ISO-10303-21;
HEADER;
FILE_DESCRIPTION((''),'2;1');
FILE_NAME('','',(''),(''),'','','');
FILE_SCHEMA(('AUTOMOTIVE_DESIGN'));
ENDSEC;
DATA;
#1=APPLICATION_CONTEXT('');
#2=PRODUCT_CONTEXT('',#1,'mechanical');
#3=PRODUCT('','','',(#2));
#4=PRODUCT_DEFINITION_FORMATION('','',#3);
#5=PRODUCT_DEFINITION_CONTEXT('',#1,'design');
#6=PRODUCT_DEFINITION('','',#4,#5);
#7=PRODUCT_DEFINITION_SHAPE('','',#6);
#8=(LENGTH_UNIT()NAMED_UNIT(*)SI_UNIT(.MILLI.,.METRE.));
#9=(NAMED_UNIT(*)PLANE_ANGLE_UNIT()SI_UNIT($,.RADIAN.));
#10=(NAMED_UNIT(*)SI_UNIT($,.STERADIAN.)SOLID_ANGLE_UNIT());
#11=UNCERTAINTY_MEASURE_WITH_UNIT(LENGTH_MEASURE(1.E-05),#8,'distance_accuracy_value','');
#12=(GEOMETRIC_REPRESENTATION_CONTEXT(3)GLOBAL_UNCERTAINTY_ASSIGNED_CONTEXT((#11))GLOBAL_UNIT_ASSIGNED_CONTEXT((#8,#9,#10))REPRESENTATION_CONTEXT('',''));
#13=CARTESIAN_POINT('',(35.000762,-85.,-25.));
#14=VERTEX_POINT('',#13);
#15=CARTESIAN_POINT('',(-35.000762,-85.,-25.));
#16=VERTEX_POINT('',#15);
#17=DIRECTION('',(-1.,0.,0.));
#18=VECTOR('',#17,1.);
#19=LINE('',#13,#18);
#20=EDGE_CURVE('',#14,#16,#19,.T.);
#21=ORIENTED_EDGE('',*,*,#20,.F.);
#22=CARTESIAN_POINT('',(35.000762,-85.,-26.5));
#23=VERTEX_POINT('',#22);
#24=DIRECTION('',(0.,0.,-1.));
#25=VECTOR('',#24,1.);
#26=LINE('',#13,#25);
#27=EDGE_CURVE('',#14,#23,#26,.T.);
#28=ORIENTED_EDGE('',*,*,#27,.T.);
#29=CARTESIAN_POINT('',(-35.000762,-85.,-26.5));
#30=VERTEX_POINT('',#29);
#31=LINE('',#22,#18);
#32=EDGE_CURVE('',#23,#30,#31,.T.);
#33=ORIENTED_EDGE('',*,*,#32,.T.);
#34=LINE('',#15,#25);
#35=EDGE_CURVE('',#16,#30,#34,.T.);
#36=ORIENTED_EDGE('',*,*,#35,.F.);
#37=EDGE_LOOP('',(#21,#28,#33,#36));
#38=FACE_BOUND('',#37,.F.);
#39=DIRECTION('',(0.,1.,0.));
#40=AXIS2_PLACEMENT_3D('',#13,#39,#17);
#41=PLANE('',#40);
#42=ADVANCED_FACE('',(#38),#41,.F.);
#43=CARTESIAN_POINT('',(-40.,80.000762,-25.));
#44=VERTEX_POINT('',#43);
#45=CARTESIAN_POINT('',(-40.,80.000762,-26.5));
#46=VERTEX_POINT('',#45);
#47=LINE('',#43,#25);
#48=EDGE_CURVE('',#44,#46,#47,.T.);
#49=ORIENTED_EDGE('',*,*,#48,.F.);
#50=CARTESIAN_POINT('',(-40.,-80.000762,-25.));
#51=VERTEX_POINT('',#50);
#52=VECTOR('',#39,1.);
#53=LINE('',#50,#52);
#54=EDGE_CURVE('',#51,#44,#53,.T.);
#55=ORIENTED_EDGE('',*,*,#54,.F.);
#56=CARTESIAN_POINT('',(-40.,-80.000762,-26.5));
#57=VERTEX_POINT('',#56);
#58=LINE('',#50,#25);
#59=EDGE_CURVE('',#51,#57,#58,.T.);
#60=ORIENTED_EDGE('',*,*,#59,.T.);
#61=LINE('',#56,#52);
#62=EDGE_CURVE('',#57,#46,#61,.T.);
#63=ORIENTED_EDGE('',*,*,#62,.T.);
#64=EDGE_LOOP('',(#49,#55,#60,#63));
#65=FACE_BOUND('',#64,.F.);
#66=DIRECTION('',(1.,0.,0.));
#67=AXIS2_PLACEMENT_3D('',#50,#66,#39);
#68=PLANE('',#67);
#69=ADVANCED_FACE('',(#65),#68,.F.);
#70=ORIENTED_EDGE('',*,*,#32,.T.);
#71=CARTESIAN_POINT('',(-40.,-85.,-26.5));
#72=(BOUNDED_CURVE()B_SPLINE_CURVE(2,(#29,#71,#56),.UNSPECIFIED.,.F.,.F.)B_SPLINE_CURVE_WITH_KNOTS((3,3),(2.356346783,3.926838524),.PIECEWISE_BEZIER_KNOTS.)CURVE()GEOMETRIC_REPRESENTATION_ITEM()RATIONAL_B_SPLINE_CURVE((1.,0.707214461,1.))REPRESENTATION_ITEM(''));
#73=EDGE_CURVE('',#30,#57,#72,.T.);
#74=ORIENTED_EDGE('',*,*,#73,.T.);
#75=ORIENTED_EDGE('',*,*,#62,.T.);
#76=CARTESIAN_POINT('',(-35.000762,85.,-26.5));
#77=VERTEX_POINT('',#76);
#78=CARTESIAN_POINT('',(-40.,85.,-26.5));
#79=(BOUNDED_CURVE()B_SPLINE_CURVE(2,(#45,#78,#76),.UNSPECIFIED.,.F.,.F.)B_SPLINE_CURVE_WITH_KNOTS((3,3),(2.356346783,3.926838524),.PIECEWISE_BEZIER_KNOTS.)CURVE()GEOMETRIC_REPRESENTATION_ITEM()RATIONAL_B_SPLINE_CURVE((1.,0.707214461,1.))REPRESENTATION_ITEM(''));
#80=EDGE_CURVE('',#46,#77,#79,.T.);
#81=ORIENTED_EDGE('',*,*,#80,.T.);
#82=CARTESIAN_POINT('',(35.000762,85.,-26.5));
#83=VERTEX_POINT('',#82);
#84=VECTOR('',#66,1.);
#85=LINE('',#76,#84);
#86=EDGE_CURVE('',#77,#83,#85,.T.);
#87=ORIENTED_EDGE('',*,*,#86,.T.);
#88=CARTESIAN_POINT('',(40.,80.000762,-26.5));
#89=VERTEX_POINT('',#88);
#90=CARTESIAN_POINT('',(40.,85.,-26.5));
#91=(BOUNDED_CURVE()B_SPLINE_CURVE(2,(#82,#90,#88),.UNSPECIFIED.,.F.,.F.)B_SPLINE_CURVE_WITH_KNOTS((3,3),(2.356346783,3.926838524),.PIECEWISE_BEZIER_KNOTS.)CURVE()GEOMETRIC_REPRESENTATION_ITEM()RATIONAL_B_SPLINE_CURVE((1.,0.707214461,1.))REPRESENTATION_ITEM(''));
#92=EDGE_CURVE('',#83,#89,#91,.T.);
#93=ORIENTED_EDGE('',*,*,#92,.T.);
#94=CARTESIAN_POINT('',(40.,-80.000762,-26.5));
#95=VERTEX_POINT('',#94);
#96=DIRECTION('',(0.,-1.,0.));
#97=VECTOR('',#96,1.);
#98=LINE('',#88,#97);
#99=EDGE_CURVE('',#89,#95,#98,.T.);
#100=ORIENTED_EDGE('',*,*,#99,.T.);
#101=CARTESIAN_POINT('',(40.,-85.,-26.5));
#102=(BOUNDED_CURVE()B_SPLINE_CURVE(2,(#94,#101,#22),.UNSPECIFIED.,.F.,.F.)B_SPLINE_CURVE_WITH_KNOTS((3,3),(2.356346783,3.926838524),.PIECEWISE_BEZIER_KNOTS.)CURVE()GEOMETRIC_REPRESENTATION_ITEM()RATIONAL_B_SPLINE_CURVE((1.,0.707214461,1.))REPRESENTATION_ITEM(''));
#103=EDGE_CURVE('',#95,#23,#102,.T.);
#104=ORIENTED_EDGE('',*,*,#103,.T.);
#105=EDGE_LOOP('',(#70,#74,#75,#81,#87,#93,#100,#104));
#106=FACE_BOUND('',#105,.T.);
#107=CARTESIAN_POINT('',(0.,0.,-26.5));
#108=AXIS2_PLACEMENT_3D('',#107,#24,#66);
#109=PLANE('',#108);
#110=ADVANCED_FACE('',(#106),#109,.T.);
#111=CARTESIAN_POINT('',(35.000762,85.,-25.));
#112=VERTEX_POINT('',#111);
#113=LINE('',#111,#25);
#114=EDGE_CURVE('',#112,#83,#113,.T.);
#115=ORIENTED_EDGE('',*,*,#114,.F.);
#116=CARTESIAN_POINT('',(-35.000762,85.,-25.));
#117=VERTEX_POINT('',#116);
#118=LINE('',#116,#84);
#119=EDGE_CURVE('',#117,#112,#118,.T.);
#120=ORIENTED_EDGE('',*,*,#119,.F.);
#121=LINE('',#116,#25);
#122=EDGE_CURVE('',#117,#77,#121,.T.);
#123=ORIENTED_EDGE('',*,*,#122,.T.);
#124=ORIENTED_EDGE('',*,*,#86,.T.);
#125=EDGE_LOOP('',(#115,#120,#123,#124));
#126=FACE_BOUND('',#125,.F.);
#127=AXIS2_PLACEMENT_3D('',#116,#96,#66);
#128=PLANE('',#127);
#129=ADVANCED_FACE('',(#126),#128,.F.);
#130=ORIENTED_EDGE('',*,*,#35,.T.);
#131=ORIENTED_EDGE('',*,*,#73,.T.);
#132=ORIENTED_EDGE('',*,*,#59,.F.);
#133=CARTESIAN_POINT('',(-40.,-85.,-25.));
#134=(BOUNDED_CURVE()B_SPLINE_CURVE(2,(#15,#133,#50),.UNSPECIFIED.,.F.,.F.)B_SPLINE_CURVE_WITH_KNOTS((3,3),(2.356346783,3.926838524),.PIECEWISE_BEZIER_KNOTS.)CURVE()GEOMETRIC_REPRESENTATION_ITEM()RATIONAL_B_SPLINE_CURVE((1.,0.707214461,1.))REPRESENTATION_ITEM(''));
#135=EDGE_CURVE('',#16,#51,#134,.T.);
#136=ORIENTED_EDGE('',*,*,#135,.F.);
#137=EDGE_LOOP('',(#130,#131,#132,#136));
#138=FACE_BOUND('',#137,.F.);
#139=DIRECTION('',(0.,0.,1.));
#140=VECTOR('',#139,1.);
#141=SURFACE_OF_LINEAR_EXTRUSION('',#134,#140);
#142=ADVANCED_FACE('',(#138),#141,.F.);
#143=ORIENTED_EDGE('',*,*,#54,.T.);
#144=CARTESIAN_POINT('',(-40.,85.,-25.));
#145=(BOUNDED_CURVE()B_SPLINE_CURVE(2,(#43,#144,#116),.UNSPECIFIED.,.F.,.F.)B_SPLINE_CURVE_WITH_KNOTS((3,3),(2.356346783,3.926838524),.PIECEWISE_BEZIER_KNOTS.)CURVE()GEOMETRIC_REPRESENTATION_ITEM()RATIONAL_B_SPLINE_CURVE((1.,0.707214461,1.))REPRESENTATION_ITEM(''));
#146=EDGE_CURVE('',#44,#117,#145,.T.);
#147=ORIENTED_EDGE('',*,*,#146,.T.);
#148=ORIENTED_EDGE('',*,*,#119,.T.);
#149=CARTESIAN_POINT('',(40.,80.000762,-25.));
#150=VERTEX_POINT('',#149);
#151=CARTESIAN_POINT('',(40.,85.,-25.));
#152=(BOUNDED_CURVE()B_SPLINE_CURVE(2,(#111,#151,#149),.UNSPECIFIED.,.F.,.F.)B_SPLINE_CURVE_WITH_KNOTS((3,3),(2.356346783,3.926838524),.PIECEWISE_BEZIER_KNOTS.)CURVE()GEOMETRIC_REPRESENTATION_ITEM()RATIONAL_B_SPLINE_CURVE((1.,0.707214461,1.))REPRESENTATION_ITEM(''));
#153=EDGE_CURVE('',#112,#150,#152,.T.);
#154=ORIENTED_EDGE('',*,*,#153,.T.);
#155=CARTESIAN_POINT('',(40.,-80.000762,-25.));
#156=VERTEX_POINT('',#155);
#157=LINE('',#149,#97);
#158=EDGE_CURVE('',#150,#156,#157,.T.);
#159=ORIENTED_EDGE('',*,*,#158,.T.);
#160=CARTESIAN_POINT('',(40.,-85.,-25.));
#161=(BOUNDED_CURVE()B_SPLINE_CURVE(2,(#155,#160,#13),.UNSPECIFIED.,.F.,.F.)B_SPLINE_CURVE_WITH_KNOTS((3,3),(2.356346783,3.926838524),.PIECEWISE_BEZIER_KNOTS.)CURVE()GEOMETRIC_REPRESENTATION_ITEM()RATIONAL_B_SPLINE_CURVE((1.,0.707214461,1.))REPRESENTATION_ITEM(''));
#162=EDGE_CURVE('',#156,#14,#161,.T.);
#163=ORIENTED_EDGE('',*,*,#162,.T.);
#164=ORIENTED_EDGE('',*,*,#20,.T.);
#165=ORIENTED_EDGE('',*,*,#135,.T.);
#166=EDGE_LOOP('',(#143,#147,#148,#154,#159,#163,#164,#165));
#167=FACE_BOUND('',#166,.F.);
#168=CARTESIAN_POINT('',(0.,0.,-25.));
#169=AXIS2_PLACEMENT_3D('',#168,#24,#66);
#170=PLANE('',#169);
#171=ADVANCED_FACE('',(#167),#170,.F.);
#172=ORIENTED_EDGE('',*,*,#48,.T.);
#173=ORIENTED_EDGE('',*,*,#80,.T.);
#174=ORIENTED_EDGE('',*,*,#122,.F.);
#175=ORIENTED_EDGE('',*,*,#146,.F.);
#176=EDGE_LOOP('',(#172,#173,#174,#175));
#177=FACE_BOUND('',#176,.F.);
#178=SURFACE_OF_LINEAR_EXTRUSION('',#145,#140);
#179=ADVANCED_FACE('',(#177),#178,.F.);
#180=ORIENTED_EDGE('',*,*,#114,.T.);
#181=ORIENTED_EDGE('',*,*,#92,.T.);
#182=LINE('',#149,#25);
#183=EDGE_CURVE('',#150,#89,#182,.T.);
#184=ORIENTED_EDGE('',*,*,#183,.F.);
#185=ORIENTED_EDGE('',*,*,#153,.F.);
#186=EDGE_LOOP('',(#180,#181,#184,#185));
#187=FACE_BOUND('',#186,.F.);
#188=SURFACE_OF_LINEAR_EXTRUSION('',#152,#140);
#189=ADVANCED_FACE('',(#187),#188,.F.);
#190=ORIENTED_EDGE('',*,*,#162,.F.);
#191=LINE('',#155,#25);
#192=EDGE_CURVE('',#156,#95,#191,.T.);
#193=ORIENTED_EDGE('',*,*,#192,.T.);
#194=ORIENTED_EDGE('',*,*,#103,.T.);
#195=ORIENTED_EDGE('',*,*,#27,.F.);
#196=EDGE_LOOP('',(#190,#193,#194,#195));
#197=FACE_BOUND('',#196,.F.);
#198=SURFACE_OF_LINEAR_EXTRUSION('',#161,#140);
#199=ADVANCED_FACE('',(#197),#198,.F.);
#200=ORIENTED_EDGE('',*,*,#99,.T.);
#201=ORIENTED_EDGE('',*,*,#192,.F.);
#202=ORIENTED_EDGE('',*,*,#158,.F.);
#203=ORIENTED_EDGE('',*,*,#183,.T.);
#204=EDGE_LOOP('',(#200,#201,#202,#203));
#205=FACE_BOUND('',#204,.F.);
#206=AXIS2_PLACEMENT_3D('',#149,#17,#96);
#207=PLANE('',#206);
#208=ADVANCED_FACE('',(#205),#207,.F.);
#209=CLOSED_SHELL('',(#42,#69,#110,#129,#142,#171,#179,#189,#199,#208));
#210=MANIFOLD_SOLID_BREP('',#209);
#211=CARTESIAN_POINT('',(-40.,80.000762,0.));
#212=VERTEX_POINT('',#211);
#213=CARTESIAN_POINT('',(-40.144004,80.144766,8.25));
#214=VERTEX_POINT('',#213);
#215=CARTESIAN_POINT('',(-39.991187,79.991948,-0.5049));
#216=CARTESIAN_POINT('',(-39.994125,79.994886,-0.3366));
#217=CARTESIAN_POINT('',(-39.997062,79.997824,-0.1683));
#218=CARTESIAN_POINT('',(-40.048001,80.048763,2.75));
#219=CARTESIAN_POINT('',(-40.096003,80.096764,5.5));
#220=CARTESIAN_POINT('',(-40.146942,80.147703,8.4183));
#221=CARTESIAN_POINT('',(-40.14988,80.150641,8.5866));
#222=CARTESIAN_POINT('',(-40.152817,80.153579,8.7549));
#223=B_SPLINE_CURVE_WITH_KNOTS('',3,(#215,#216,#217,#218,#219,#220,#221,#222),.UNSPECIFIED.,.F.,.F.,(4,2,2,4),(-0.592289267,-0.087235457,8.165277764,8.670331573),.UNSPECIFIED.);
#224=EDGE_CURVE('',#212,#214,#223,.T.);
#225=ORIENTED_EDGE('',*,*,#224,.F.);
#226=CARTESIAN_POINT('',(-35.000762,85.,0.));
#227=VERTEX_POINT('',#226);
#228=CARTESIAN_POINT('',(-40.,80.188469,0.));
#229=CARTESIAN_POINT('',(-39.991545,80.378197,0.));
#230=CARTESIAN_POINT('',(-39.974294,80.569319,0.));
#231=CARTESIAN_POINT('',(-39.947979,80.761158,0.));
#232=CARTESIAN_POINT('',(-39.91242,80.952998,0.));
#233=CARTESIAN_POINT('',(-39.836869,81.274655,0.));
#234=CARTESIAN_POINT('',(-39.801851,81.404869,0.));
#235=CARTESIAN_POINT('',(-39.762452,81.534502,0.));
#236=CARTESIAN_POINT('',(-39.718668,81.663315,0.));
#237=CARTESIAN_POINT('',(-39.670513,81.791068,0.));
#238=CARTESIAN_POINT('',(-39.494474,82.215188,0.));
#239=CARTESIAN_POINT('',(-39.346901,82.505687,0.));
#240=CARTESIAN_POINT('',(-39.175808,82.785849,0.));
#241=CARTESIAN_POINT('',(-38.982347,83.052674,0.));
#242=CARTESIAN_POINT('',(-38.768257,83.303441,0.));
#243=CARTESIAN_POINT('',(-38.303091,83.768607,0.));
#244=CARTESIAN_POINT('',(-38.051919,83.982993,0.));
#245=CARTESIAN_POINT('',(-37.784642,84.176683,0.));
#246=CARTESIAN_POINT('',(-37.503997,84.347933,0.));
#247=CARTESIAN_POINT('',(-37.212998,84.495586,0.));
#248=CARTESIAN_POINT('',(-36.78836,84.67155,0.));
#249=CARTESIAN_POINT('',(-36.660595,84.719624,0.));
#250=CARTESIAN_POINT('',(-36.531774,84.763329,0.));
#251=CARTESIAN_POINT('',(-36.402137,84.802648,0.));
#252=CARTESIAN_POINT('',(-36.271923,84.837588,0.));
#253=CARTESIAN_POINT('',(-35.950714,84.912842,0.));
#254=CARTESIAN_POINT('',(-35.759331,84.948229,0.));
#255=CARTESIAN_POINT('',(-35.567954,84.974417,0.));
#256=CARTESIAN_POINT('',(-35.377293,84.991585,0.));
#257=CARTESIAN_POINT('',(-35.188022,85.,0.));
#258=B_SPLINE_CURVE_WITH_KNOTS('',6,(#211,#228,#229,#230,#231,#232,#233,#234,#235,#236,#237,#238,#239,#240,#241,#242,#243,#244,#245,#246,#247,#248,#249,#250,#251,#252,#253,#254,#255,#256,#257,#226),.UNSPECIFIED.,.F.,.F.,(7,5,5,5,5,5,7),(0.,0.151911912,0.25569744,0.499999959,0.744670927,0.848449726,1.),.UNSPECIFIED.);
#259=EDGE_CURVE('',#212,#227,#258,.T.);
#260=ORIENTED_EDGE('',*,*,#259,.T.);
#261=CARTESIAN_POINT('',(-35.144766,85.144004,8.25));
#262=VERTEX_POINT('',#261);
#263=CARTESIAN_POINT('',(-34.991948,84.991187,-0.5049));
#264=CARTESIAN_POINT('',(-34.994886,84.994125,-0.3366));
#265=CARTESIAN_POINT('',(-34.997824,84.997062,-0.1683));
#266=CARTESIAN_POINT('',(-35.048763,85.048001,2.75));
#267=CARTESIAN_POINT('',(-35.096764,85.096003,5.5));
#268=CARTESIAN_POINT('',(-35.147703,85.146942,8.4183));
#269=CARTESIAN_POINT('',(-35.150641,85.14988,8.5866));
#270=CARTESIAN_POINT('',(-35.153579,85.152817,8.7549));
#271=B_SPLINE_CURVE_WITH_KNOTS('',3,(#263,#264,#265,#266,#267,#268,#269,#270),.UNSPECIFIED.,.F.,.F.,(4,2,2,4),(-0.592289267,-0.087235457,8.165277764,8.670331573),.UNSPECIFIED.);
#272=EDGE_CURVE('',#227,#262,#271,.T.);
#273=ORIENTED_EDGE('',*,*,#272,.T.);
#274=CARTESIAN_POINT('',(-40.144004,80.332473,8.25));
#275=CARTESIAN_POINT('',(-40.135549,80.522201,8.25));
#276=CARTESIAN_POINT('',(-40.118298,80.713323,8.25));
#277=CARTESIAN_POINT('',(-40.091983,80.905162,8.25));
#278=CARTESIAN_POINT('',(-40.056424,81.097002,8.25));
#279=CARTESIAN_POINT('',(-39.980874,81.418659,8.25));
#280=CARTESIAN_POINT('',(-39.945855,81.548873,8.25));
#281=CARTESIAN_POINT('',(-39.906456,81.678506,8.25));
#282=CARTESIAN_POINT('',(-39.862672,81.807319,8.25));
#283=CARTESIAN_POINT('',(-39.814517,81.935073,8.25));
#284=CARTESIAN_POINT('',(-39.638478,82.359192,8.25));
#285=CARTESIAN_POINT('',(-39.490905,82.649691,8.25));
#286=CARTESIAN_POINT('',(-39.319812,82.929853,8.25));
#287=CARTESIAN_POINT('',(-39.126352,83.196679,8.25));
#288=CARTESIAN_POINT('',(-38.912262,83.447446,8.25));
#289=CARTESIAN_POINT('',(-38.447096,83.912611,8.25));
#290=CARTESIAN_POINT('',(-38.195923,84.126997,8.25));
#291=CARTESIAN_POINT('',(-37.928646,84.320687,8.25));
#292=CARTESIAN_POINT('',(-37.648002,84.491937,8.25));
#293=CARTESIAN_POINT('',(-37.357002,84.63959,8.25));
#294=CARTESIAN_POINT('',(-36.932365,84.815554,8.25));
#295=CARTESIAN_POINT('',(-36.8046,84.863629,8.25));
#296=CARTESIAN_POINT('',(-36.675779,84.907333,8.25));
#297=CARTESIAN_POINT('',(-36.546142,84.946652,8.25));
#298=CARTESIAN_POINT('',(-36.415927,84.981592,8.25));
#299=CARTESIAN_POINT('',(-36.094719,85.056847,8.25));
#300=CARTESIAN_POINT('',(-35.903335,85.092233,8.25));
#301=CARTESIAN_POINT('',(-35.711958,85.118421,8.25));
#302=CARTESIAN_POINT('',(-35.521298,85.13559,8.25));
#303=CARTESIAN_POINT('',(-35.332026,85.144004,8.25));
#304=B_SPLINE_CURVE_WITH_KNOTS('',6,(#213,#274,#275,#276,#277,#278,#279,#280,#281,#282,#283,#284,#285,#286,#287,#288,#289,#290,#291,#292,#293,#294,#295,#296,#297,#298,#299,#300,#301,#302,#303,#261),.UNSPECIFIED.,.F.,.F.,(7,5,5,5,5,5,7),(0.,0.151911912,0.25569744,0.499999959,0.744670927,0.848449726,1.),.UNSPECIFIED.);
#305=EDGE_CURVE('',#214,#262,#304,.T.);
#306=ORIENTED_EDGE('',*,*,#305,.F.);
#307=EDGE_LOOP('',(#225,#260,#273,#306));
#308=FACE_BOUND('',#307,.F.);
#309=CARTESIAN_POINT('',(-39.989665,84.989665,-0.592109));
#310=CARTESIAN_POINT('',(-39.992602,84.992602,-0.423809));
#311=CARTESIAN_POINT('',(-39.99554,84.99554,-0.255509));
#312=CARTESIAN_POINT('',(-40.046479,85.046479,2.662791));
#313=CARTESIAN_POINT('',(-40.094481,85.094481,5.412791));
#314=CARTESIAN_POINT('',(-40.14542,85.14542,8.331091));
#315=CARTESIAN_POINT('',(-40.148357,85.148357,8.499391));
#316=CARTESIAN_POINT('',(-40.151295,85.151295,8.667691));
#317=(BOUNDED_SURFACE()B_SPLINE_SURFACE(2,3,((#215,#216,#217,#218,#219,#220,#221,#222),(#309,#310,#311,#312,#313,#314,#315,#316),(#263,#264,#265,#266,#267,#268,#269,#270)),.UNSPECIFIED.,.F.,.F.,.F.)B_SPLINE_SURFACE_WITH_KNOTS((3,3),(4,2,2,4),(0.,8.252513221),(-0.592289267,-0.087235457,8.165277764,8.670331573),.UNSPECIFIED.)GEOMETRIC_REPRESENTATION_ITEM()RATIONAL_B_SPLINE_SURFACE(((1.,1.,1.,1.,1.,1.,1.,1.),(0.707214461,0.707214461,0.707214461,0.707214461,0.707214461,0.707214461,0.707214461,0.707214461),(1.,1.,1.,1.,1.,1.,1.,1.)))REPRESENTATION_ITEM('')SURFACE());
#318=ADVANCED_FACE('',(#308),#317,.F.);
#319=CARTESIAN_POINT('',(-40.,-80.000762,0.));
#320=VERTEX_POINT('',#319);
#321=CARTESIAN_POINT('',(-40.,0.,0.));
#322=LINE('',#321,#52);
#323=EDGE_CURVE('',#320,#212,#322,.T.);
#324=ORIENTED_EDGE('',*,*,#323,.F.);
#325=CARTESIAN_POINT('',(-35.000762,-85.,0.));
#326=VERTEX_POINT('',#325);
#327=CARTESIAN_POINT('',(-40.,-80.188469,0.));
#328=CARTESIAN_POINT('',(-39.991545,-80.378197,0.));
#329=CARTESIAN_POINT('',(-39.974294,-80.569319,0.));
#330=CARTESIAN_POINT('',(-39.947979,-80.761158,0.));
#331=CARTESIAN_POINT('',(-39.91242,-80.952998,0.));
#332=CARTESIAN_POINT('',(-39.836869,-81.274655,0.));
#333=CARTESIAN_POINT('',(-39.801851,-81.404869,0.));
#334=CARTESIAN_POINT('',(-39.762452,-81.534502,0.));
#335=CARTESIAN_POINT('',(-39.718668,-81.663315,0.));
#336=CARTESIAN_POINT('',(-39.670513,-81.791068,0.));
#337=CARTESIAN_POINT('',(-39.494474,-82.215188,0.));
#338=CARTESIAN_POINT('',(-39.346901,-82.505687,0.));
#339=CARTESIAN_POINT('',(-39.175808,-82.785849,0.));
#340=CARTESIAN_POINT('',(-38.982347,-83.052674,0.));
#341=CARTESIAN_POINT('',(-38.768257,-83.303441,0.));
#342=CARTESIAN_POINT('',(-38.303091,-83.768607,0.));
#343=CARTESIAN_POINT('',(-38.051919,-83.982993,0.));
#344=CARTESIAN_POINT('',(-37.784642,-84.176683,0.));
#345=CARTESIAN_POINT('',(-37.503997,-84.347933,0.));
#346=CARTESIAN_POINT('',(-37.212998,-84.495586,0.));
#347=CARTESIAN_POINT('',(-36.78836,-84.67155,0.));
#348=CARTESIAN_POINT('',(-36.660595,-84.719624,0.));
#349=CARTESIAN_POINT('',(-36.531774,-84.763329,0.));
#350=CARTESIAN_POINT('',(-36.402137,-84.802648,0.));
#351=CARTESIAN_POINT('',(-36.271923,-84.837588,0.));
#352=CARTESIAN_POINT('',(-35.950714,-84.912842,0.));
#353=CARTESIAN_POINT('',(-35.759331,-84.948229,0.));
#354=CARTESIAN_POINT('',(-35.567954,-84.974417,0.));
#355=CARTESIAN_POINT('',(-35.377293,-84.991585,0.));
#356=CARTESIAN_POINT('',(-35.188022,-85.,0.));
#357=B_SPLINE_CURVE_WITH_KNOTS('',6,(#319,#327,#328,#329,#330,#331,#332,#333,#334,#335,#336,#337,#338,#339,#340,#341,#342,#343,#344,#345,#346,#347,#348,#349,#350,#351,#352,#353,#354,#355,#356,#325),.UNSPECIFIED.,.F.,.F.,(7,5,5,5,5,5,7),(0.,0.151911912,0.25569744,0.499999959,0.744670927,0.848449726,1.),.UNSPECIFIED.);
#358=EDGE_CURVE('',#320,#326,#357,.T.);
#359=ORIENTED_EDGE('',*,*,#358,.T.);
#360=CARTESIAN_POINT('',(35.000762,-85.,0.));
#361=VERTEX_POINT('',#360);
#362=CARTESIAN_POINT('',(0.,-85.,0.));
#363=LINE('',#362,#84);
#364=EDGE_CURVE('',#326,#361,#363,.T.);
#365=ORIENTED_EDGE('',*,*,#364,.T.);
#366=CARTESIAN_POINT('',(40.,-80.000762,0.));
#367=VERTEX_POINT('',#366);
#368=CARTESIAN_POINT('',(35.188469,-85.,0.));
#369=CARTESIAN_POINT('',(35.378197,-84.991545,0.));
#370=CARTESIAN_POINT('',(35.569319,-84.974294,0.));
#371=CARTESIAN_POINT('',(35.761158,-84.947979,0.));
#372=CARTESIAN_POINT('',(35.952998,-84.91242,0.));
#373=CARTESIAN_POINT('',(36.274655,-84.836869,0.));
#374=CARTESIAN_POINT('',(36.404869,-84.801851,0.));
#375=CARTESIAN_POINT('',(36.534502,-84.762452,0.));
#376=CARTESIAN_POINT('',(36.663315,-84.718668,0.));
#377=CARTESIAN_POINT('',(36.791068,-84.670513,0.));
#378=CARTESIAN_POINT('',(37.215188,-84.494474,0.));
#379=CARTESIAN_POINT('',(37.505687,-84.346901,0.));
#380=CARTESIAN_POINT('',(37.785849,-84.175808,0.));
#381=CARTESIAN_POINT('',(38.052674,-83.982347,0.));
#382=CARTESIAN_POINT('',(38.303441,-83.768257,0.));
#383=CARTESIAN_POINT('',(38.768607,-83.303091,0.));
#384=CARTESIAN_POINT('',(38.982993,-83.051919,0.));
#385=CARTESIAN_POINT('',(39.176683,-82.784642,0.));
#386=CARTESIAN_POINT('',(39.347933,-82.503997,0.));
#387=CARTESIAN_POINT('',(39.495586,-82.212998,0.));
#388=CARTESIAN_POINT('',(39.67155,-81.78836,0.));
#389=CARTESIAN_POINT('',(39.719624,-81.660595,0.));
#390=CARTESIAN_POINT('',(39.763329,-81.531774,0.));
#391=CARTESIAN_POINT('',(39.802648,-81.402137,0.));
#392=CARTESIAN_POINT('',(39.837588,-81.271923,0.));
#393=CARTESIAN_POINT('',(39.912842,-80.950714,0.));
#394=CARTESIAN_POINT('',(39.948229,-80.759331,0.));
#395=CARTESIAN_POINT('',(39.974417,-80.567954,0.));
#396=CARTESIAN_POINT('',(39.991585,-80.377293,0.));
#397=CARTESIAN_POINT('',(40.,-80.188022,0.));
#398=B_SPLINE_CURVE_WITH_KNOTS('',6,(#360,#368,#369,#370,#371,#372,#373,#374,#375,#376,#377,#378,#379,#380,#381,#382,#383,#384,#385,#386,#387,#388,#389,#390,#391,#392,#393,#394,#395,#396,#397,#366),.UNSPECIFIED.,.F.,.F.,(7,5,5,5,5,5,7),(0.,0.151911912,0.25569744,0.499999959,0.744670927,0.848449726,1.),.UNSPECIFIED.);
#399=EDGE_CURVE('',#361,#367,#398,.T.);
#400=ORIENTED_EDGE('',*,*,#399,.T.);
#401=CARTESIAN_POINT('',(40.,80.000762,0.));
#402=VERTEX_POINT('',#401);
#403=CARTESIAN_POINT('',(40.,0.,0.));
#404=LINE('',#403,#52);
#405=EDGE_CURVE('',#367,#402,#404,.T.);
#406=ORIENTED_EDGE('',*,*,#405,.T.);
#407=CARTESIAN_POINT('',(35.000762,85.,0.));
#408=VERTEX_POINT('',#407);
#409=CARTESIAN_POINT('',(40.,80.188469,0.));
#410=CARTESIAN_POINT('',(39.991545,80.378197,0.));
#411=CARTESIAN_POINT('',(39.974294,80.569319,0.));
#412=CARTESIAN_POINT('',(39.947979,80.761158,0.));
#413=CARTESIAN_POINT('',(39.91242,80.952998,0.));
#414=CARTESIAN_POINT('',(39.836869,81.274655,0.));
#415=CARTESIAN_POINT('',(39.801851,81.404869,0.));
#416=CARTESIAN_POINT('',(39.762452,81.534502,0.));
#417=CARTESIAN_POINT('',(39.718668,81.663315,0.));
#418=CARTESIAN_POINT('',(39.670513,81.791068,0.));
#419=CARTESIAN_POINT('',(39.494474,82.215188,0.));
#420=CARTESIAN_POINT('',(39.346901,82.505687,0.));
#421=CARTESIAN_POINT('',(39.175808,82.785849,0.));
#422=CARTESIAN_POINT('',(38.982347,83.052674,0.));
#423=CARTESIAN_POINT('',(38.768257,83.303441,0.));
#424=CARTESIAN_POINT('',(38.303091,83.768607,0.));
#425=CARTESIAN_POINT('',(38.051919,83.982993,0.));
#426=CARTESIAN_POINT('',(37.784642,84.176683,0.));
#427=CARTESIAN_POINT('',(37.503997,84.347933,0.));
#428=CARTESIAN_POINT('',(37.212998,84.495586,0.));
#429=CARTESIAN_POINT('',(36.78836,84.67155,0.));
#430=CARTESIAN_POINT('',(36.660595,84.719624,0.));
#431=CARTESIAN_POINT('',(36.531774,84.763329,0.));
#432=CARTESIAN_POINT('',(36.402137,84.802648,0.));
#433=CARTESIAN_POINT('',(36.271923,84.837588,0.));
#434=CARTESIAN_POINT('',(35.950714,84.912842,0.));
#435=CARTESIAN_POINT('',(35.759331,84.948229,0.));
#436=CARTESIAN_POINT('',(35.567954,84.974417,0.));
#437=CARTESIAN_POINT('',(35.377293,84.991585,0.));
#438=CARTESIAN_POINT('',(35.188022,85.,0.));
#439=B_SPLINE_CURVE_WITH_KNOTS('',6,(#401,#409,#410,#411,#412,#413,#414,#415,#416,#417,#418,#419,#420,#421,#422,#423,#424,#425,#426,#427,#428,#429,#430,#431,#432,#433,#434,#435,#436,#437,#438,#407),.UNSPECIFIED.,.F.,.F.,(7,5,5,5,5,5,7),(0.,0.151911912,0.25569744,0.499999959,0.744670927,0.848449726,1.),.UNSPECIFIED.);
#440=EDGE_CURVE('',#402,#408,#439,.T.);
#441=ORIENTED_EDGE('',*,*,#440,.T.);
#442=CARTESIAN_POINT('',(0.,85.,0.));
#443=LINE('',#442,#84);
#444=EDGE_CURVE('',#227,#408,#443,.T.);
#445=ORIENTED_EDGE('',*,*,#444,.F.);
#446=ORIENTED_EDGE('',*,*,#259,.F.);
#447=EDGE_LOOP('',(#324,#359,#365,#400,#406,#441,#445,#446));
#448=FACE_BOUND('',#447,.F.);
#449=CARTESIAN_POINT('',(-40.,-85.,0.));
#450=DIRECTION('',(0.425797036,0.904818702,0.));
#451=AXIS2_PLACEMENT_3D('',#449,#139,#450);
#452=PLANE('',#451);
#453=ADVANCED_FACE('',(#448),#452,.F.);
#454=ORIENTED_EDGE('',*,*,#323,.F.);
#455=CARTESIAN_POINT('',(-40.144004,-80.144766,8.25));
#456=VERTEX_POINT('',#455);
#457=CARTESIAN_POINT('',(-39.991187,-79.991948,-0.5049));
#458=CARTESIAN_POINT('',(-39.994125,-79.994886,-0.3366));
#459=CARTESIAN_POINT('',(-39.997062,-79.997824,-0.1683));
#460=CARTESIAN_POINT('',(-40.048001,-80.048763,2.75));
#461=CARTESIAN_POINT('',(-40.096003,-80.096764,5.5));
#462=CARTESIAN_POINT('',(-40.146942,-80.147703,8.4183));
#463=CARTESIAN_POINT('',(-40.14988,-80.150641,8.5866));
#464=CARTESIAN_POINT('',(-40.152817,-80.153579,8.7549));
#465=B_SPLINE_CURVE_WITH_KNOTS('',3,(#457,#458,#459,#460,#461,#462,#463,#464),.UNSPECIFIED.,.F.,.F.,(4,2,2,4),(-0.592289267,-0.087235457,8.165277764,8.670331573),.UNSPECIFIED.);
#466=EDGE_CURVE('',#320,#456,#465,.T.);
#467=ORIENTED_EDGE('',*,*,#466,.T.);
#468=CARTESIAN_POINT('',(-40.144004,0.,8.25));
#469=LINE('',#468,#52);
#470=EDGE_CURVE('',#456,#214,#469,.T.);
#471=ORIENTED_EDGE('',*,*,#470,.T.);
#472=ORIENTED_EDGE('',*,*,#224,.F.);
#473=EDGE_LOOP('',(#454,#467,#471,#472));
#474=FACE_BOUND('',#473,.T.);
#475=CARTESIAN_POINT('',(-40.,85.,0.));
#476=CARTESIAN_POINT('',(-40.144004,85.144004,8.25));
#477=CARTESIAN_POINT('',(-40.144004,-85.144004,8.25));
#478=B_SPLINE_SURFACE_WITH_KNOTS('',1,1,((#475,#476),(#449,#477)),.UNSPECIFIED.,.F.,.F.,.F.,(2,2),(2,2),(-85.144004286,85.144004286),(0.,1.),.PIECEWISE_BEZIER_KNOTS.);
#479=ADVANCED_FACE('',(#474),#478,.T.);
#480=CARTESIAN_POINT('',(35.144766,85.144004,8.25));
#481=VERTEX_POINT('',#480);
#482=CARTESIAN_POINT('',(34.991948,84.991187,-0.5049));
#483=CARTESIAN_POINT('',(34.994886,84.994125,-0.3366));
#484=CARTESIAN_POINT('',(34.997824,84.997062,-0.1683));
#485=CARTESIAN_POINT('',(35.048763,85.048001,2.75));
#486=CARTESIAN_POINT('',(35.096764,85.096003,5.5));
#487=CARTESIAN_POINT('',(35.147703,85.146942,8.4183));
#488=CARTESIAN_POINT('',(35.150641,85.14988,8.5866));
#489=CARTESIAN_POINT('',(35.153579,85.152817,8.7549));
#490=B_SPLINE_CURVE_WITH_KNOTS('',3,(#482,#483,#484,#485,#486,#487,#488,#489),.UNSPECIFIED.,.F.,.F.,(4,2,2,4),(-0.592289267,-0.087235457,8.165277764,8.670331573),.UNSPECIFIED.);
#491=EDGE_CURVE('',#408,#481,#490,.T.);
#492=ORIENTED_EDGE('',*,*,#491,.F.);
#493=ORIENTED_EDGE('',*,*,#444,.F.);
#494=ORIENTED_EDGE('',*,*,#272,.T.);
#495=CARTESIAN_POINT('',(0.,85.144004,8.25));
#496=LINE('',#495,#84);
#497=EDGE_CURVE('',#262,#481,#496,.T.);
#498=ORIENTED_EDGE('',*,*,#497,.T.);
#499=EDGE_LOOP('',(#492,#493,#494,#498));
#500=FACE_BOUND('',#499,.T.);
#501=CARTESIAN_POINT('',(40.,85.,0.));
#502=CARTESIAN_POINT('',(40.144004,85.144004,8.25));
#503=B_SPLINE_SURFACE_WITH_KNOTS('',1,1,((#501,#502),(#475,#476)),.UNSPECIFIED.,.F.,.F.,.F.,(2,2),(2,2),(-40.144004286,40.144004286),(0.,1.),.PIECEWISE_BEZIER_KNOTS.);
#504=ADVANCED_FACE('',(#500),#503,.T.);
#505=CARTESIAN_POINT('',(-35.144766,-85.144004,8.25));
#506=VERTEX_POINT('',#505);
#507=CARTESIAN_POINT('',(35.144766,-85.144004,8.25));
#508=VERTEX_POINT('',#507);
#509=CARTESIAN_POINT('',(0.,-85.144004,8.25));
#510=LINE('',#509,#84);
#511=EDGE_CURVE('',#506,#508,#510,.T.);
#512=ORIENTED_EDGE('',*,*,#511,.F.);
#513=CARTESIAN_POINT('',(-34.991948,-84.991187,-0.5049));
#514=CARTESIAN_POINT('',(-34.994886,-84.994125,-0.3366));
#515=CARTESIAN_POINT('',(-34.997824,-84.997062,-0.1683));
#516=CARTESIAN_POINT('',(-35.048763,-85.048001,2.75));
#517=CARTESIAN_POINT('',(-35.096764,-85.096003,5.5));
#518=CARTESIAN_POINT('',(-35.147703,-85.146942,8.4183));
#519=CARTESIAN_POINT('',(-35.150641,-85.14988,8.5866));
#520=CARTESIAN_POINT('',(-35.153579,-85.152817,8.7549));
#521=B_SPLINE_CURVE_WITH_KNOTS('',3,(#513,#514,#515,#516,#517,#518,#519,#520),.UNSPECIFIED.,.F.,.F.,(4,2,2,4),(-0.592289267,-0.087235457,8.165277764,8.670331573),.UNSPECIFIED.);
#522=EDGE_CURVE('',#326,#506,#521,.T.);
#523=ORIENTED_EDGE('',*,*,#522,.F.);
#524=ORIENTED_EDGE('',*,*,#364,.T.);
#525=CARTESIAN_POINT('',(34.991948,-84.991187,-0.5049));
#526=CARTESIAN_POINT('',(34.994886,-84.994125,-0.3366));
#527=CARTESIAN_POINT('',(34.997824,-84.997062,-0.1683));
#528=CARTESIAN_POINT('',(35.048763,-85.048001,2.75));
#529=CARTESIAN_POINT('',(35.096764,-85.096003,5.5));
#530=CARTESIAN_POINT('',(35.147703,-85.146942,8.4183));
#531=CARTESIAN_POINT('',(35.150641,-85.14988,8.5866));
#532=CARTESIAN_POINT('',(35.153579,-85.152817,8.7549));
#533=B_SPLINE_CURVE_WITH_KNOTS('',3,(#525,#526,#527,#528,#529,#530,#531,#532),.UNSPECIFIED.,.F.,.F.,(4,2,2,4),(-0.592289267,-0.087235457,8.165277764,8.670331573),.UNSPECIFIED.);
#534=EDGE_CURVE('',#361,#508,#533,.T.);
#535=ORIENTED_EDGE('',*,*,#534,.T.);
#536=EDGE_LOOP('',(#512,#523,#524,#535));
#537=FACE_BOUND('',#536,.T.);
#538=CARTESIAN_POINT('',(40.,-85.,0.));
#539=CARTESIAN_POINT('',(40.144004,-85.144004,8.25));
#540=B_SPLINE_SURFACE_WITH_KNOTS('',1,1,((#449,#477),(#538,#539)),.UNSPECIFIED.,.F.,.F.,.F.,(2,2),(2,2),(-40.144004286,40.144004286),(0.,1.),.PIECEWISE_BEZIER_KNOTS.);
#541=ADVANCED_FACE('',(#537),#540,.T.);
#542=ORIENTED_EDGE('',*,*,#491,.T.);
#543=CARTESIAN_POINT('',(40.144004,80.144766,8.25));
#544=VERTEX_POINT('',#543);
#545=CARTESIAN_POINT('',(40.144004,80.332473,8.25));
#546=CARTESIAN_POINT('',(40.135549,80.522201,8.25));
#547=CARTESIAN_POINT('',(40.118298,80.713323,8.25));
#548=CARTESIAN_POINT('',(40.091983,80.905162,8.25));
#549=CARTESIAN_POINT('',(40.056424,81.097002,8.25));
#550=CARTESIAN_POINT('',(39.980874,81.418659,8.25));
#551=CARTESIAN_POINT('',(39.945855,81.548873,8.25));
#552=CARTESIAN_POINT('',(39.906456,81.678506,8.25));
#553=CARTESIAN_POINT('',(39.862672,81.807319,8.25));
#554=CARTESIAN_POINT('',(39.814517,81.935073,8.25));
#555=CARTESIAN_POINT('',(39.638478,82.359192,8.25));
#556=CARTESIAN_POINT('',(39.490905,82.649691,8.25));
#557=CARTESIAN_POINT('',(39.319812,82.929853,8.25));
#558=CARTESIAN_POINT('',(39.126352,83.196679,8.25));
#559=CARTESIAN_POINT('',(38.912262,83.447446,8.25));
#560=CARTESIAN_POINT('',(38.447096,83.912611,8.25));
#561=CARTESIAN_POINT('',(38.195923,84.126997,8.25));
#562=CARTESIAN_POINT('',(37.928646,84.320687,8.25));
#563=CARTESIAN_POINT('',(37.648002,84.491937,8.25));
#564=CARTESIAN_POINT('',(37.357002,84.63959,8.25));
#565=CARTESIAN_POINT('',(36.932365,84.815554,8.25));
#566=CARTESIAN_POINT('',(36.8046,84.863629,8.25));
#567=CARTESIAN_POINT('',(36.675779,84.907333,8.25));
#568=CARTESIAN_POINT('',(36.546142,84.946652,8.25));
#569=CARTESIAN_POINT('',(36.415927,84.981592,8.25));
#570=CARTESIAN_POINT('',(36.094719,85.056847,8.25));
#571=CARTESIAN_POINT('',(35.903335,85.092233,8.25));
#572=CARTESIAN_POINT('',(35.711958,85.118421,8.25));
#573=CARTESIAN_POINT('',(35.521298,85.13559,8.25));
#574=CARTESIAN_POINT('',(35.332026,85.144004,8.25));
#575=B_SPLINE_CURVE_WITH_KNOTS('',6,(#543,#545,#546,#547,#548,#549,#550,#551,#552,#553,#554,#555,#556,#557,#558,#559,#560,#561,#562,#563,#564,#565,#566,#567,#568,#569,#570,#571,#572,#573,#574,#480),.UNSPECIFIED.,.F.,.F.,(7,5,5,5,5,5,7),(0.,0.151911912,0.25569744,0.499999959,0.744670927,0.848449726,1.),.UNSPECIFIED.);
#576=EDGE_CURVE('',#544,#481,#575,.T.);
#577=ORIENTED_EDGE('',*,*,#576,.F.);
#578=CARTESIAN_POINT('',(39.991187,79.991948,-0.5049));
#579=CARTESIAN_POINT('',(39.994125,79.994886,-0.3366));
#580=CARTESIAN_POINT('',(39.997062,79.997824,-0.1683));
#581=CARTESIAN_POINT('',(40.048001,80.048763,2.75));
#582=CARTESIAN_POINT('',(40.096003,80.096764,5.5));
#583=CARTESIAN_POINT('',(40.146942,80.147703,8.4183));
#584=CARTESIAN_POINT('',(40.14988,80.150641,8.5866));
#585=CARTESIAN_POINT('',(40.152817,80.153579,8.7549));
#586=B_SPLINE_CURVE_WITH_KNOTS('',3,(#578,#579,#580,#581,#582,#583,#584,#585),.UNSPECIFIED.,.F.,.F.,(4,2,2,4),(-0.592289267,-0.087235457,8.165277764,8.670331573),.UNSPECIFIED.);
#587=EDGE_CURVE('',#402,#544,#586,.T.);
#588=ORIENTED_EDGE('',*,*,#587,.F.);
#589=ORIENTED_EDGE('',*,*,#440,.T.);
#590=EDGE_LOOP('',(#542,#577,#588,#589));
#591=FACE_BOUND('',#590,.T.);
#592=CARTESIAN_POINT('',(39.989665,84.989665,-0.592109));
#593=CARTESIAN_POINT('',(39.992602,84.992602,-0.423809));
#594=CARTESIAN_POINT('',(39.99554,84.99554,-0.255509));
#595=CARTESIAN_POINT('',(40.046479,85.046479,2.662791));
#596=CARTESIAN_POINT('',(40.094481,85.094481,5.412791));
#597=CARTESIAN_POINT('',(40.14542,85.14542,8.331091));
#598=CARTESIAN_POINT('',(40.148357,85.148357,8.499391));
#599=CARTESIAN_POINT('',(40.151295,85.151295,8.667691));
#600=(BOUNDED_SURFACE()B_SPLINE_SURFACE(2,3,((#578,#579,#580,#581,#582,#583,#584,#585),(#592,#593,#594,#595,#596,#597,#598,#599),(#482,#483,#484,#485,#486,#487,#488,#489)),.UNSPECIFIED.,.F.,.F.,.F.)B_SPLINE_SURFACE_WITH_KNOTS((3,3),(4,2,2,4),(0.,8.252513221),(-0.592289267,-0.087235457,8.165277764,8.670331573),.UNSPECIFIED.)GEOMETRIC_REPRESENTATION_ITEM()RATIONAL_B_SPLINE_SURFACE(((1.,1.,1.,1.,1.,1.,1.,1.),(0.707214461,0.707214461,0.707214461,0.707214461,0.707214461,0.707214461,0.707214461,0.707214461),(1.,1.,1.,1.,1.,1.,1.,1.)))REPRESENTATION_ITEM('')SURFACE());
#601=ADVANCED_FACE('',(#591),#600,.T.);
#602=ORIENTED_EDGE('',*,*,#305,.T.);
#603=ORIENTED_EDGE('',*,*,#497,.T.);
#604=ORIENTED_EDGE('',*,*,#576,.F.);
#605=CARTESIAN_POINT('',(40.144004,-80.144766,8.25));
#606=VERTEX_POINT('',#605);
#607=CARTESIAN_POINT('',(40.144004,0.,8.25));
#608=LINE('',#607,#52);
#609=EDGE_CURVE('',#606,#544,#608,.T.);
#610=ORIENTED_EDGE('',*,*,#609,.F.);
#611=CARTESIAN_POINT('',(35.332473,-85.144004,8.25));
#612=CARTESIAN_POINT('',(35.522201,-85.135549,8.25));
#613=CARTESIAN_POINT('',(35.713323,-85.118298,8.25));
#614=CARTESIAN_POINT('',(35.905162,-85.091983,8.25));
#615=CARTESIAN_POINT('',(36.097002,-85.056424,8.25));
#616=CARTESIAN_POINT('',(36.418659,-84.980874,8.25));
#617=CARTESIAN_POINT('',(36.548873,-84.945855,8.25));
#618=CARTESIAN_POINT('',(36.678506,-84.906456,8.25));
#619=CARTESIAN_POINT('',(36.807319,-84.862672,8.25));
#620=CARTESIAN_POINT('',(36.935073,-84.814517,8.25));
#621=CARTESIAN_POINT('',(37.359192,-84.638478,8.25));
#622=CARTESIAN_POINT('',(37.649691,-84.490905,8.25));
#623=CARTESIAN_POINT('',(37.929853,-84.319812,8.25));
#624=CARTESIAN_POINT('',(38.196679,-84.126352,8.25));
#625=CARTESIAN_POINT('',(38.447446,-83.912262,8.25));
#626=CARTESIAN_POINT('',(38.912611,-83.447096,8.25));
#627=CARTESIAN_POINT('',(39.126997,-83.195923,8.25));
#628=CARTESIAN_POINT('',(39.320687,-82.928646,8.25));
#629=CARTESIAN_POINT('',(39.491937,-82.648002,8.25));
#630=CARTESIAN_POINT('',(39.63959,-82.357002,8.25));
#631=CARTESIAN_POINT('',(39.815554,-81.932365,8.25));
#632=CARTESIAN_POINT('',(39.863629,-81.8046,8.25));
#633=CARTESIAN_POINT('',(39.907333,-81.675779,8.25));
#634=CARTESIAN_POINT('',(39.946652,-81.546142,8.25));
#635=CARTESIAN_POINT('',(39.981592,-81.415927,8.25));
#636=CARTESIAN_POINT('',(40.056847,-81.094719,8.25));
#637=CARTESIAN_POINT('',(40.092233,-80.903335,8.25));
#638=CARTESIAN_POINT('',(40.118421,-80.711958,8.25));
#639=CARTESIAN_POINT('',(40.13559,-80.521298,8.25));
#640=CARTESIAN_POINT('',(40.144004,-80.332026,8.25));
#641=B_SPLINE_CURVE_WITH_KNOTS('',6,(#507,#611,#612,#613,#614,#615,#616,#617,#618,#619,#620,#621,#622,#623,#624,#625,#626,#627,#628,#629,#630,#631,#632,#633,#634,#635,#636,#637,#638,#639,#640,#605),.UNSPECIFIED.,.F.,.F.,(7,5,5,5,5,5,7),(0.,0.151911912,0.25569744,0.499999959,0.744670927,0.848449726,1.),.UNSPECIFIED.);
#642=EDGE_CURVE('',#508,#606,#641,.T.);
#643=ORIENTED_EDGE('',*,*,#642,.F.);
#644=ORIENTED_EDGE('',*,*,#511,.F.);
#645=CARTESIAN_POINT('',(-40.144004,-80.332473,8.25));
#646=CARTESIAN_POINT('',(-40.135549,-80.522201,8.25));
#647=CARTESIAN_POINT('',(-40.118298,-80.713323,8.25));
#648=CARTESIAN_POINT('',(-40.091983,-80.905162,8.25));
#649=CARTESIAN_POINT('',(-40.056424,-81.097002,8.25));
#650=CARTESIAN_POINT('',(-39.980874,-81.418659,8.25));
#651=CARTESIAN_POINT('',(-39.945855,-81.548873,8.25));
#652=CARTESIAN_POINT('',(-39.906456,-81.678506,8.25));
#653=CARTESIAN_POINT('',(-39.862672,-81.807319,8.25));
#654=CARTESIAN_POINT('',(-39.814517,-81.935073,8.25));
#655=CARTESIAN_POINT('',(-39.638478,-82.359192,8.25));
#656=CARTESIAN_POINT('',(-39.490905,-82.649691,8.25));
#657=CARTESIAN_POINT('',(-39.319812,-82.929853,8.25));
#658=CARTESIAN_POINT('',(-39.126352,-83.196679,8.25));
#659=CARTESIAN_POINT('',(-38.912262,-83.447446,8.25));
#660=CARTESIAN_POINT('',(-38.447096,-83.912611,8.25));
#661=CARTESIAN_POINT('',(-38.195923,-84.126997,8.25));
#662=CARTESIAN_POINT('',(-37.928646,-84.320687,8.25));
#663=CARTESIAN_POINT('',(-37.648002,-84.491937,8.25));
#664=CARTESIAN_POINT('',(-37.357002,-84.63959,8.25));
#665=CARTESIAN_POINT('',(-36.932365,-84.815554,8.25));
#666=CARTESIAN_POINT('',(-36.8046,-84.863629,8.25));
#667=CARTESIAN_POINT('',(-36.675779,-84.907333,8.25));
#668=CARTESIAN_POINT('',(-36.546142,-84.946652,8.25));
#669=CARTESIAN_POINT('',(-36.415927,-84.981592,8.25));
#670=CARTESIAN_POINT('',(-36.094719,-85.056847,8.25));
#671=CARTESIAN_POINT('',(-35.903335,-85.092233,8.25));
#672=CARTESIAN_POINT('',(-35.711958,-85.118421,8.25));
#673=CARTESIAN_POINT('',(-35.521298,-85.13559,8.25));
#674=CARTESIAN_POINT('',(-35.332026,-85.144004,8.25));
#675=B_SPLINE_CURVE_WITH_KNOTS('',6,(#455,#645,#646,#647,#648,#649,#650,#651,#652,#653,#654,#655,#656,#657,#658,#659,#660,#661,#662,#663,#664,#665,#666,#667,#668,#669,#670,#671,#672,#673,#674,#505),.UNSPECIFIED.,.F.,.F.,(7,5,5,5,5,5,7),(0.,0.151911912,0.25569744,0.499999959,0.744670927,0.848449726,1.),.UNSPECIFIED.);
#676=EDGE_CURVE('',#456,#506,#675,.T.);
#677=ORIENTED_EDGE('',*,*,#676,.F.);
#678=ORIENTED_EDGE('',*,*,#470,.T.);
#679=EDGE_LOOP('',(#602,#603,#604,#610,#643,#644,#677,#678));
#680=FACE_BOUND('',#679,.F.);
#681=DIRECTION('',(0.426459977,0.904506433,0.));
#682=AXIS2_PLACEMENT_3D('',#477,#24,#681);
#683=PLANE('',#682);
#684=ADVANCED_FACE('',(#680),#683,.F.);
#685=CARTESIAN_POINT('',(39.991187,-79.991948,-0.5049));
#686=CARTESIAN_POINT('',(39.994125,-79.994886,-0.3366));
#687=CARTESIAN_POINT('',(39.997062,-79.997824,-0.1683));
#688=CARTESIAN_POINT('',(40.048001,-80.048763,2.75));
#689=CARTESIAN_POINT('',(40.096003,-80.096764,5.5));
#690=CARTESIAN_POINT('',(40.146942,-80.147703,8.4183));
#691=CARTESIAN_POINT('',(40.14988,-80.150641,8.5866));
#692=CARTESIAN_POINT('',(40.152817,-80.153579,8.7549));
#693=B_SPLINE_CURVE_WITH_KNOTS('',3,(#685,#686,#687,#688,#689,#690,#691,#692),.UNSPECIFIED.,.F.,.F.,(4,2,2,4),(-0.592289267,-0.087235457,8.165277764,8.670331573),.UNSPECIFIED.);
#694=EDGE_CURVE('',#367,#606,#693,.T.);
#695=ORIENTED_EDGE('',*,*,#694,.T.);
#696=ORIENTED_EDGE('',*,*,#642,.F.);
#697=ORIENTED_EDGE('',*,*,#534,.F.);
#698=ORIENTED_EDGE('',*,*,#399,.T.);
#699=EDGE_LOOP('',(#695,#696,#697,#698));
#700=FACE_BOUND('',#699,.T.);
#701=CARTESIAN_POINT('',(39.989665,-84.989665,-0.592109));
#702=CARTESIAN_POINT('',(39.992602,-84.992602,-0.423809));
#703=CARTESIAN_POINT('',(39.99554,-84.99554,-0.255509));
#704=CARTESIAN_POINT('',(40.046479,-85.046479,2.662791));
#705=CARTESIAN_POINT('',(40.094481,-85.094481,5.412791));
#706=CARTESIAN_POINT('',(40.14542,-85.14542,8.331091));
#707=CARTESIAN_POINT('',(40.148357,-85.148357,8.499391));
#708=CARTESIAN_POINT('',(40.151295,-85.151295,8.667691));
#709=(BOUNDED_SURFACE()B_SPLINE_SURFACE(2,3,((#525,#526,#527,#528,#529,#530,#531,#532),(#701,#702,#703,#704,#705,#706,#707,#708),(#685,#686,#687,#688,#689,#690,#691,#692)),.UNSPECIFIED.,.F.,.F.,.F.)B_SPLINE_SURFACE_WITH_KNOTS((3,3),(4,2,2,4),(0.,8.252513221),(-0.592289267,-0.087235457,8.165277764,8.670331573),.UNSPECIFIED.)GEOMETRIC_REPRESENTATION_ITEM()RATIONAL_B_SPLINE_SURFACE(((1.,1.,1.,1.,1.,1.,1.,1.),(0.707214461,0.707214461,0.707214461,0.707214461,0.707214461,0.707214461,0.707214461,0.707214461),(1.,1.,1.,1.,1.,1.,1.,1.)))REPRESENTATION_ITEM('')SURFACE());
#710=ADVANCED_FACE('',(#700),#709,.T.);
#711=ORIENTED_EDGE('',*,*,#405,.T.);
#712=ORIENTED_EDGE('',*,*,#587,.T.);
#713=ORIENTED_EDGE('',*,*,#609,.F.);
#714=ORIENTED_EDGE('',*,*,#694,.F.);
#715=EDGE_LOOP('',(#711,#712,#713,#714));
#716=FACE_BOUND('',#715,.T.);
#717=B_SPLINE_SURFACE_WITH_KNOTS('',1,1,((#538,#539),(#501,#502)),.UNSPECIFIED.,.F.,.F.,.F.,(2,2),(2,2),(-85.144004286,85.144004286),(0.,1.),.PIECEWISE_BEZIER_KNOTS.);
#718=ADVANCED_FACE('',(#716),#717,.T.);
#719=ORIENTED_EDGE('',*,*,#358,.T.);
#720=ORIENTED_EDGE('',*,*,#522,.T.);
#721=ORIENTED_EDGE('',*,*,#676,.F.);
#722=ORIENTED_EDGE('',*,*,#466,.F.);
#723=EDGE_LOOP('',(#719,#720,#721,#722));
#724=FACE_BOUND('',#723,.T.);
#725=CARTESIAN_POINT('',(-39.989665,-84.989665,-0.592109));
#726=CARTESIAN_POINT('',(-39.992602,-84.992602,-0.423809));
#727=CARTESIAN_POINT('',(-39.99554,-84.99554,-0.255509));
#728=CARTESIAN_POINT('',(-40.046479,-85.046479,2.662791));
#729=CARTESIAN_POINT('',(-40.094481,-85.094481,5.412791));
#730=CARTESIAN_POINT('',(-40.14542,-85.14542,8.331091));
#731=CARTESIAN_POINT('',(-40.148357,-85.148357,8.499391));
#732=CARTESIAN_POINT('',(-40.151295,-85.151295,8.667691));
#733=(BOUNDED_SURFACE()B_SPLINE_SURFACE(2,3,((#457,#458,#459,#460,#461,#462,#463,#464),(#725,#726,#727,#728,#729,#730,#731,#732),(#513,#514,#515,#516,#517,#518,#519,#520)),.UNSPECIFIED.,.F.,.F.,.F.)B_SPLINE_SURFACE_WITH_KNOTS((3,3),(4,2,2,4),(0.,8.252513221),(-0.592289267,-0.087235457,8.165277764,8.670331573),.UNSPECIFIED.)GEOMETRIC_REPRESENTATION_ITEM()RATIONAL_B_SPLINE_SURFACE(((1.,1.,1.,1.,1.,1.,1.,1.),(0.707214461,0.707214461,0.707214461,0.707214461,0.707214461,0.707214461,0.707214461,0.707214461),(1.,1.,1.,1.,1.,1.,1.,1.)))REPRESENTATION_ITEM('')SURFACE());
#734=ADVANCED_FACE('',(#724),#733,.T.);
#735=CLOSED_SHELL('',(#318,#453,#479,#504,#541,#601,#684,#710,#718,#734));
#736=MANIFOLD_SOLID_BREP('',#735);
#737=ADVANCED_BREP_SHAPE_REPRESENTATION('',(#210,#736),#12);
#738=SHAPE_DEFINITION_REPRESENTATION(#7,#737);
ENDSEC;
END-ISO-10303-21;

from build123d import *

# Parameters (mm, degrees)
F0_W     = 80
F0_H     = 170
F1_DEPTH = 8.25
F1_TAPER = -1
F2_R     = 5
F5_DEPTH = 1.5


with BuildPart() as f1:
    # F0 (on Top) → F1 (new body)
    with BuildSketch(Plane.XY):
        Rectangle(F0_W, F0_H)
    extrude(amount=F1_DEPTH, taper=F1_TAPER)

    # F2
    f2_edges = [f1.edges().sort_by_distance(p)[0] for p in [
        (-40.072002, -85.072002, 4.125),
        (40.072002, -85.072002, 4.125),
        (-40.072002, 85.072002, 4.125),
        (40.072002, 85.072002, 4.125),
    ]]
    fillet(f2_edges, radius=F2_R)


with BuildPart() as f5:
    # F4 (on offset) → F5 (new body)
    with BuildSketch(Plane(origin=(0, 0, -25), x_dir=(1, 0, 0), z_dir=(0, 0, -1))):
        with BuildLine():
            add(Edge.make_bspline(
                [(35.0007615242, -85), (40, -85), (40, -80.0007615242)],
                knots=[2.3563467834, 2.3563467834, 2.3563467834, 3.9268385237, 3.9268385237, 3.9268385237], degree=2, weights=[1, 0.7072144606, 1]))
            Line((40, -80.0007615242), (40, 80.0007615242))
            add(Edge.make_bspline(
                [(40, 80.0007615242), (40, 85), (35.0007615242, 85)],
                knots=[2.3563467834, 2.3563467834, 2.3563467834, 3.9268385237, 3.9268385237, 3.9268385237], degree=2, weights=[1, 0.7072144606, 1]))
            Line((35.0007615242, 85), (-35.0007615242, 85))
            add(Edge.make_bspline(
                [(-35.0007615242, 85), (-40, 85), (-40, 80.0007615242)],
                knots=[2.3563467834, 2.3563467834, 2.3563467834, 3.9268385237, 3.9268385237, 3.9268385237], degree=2, weights=[1, 0.7072144606, 1]))
            Line((-40, 80.0007615242), (-40, -80.0007615242))
            add(Edge.make_bspline(
                [(-40, -80.0007615242), (-40, -85), (-35.0007615242, -85)],
                knots=[2.3563467834, 2.3563467834, 2.3563467834, 3.9268385237, 3.9268385237, 3.9268385237], degree=2, weights=[1, 0.7072144606, 1]))
            Line((-35.0007615242, -85), (35.0007615242, -85))
        make_face()
    extrude(amount=F5_DEPTH)


solid = Compound([f1.part, f5.part])
